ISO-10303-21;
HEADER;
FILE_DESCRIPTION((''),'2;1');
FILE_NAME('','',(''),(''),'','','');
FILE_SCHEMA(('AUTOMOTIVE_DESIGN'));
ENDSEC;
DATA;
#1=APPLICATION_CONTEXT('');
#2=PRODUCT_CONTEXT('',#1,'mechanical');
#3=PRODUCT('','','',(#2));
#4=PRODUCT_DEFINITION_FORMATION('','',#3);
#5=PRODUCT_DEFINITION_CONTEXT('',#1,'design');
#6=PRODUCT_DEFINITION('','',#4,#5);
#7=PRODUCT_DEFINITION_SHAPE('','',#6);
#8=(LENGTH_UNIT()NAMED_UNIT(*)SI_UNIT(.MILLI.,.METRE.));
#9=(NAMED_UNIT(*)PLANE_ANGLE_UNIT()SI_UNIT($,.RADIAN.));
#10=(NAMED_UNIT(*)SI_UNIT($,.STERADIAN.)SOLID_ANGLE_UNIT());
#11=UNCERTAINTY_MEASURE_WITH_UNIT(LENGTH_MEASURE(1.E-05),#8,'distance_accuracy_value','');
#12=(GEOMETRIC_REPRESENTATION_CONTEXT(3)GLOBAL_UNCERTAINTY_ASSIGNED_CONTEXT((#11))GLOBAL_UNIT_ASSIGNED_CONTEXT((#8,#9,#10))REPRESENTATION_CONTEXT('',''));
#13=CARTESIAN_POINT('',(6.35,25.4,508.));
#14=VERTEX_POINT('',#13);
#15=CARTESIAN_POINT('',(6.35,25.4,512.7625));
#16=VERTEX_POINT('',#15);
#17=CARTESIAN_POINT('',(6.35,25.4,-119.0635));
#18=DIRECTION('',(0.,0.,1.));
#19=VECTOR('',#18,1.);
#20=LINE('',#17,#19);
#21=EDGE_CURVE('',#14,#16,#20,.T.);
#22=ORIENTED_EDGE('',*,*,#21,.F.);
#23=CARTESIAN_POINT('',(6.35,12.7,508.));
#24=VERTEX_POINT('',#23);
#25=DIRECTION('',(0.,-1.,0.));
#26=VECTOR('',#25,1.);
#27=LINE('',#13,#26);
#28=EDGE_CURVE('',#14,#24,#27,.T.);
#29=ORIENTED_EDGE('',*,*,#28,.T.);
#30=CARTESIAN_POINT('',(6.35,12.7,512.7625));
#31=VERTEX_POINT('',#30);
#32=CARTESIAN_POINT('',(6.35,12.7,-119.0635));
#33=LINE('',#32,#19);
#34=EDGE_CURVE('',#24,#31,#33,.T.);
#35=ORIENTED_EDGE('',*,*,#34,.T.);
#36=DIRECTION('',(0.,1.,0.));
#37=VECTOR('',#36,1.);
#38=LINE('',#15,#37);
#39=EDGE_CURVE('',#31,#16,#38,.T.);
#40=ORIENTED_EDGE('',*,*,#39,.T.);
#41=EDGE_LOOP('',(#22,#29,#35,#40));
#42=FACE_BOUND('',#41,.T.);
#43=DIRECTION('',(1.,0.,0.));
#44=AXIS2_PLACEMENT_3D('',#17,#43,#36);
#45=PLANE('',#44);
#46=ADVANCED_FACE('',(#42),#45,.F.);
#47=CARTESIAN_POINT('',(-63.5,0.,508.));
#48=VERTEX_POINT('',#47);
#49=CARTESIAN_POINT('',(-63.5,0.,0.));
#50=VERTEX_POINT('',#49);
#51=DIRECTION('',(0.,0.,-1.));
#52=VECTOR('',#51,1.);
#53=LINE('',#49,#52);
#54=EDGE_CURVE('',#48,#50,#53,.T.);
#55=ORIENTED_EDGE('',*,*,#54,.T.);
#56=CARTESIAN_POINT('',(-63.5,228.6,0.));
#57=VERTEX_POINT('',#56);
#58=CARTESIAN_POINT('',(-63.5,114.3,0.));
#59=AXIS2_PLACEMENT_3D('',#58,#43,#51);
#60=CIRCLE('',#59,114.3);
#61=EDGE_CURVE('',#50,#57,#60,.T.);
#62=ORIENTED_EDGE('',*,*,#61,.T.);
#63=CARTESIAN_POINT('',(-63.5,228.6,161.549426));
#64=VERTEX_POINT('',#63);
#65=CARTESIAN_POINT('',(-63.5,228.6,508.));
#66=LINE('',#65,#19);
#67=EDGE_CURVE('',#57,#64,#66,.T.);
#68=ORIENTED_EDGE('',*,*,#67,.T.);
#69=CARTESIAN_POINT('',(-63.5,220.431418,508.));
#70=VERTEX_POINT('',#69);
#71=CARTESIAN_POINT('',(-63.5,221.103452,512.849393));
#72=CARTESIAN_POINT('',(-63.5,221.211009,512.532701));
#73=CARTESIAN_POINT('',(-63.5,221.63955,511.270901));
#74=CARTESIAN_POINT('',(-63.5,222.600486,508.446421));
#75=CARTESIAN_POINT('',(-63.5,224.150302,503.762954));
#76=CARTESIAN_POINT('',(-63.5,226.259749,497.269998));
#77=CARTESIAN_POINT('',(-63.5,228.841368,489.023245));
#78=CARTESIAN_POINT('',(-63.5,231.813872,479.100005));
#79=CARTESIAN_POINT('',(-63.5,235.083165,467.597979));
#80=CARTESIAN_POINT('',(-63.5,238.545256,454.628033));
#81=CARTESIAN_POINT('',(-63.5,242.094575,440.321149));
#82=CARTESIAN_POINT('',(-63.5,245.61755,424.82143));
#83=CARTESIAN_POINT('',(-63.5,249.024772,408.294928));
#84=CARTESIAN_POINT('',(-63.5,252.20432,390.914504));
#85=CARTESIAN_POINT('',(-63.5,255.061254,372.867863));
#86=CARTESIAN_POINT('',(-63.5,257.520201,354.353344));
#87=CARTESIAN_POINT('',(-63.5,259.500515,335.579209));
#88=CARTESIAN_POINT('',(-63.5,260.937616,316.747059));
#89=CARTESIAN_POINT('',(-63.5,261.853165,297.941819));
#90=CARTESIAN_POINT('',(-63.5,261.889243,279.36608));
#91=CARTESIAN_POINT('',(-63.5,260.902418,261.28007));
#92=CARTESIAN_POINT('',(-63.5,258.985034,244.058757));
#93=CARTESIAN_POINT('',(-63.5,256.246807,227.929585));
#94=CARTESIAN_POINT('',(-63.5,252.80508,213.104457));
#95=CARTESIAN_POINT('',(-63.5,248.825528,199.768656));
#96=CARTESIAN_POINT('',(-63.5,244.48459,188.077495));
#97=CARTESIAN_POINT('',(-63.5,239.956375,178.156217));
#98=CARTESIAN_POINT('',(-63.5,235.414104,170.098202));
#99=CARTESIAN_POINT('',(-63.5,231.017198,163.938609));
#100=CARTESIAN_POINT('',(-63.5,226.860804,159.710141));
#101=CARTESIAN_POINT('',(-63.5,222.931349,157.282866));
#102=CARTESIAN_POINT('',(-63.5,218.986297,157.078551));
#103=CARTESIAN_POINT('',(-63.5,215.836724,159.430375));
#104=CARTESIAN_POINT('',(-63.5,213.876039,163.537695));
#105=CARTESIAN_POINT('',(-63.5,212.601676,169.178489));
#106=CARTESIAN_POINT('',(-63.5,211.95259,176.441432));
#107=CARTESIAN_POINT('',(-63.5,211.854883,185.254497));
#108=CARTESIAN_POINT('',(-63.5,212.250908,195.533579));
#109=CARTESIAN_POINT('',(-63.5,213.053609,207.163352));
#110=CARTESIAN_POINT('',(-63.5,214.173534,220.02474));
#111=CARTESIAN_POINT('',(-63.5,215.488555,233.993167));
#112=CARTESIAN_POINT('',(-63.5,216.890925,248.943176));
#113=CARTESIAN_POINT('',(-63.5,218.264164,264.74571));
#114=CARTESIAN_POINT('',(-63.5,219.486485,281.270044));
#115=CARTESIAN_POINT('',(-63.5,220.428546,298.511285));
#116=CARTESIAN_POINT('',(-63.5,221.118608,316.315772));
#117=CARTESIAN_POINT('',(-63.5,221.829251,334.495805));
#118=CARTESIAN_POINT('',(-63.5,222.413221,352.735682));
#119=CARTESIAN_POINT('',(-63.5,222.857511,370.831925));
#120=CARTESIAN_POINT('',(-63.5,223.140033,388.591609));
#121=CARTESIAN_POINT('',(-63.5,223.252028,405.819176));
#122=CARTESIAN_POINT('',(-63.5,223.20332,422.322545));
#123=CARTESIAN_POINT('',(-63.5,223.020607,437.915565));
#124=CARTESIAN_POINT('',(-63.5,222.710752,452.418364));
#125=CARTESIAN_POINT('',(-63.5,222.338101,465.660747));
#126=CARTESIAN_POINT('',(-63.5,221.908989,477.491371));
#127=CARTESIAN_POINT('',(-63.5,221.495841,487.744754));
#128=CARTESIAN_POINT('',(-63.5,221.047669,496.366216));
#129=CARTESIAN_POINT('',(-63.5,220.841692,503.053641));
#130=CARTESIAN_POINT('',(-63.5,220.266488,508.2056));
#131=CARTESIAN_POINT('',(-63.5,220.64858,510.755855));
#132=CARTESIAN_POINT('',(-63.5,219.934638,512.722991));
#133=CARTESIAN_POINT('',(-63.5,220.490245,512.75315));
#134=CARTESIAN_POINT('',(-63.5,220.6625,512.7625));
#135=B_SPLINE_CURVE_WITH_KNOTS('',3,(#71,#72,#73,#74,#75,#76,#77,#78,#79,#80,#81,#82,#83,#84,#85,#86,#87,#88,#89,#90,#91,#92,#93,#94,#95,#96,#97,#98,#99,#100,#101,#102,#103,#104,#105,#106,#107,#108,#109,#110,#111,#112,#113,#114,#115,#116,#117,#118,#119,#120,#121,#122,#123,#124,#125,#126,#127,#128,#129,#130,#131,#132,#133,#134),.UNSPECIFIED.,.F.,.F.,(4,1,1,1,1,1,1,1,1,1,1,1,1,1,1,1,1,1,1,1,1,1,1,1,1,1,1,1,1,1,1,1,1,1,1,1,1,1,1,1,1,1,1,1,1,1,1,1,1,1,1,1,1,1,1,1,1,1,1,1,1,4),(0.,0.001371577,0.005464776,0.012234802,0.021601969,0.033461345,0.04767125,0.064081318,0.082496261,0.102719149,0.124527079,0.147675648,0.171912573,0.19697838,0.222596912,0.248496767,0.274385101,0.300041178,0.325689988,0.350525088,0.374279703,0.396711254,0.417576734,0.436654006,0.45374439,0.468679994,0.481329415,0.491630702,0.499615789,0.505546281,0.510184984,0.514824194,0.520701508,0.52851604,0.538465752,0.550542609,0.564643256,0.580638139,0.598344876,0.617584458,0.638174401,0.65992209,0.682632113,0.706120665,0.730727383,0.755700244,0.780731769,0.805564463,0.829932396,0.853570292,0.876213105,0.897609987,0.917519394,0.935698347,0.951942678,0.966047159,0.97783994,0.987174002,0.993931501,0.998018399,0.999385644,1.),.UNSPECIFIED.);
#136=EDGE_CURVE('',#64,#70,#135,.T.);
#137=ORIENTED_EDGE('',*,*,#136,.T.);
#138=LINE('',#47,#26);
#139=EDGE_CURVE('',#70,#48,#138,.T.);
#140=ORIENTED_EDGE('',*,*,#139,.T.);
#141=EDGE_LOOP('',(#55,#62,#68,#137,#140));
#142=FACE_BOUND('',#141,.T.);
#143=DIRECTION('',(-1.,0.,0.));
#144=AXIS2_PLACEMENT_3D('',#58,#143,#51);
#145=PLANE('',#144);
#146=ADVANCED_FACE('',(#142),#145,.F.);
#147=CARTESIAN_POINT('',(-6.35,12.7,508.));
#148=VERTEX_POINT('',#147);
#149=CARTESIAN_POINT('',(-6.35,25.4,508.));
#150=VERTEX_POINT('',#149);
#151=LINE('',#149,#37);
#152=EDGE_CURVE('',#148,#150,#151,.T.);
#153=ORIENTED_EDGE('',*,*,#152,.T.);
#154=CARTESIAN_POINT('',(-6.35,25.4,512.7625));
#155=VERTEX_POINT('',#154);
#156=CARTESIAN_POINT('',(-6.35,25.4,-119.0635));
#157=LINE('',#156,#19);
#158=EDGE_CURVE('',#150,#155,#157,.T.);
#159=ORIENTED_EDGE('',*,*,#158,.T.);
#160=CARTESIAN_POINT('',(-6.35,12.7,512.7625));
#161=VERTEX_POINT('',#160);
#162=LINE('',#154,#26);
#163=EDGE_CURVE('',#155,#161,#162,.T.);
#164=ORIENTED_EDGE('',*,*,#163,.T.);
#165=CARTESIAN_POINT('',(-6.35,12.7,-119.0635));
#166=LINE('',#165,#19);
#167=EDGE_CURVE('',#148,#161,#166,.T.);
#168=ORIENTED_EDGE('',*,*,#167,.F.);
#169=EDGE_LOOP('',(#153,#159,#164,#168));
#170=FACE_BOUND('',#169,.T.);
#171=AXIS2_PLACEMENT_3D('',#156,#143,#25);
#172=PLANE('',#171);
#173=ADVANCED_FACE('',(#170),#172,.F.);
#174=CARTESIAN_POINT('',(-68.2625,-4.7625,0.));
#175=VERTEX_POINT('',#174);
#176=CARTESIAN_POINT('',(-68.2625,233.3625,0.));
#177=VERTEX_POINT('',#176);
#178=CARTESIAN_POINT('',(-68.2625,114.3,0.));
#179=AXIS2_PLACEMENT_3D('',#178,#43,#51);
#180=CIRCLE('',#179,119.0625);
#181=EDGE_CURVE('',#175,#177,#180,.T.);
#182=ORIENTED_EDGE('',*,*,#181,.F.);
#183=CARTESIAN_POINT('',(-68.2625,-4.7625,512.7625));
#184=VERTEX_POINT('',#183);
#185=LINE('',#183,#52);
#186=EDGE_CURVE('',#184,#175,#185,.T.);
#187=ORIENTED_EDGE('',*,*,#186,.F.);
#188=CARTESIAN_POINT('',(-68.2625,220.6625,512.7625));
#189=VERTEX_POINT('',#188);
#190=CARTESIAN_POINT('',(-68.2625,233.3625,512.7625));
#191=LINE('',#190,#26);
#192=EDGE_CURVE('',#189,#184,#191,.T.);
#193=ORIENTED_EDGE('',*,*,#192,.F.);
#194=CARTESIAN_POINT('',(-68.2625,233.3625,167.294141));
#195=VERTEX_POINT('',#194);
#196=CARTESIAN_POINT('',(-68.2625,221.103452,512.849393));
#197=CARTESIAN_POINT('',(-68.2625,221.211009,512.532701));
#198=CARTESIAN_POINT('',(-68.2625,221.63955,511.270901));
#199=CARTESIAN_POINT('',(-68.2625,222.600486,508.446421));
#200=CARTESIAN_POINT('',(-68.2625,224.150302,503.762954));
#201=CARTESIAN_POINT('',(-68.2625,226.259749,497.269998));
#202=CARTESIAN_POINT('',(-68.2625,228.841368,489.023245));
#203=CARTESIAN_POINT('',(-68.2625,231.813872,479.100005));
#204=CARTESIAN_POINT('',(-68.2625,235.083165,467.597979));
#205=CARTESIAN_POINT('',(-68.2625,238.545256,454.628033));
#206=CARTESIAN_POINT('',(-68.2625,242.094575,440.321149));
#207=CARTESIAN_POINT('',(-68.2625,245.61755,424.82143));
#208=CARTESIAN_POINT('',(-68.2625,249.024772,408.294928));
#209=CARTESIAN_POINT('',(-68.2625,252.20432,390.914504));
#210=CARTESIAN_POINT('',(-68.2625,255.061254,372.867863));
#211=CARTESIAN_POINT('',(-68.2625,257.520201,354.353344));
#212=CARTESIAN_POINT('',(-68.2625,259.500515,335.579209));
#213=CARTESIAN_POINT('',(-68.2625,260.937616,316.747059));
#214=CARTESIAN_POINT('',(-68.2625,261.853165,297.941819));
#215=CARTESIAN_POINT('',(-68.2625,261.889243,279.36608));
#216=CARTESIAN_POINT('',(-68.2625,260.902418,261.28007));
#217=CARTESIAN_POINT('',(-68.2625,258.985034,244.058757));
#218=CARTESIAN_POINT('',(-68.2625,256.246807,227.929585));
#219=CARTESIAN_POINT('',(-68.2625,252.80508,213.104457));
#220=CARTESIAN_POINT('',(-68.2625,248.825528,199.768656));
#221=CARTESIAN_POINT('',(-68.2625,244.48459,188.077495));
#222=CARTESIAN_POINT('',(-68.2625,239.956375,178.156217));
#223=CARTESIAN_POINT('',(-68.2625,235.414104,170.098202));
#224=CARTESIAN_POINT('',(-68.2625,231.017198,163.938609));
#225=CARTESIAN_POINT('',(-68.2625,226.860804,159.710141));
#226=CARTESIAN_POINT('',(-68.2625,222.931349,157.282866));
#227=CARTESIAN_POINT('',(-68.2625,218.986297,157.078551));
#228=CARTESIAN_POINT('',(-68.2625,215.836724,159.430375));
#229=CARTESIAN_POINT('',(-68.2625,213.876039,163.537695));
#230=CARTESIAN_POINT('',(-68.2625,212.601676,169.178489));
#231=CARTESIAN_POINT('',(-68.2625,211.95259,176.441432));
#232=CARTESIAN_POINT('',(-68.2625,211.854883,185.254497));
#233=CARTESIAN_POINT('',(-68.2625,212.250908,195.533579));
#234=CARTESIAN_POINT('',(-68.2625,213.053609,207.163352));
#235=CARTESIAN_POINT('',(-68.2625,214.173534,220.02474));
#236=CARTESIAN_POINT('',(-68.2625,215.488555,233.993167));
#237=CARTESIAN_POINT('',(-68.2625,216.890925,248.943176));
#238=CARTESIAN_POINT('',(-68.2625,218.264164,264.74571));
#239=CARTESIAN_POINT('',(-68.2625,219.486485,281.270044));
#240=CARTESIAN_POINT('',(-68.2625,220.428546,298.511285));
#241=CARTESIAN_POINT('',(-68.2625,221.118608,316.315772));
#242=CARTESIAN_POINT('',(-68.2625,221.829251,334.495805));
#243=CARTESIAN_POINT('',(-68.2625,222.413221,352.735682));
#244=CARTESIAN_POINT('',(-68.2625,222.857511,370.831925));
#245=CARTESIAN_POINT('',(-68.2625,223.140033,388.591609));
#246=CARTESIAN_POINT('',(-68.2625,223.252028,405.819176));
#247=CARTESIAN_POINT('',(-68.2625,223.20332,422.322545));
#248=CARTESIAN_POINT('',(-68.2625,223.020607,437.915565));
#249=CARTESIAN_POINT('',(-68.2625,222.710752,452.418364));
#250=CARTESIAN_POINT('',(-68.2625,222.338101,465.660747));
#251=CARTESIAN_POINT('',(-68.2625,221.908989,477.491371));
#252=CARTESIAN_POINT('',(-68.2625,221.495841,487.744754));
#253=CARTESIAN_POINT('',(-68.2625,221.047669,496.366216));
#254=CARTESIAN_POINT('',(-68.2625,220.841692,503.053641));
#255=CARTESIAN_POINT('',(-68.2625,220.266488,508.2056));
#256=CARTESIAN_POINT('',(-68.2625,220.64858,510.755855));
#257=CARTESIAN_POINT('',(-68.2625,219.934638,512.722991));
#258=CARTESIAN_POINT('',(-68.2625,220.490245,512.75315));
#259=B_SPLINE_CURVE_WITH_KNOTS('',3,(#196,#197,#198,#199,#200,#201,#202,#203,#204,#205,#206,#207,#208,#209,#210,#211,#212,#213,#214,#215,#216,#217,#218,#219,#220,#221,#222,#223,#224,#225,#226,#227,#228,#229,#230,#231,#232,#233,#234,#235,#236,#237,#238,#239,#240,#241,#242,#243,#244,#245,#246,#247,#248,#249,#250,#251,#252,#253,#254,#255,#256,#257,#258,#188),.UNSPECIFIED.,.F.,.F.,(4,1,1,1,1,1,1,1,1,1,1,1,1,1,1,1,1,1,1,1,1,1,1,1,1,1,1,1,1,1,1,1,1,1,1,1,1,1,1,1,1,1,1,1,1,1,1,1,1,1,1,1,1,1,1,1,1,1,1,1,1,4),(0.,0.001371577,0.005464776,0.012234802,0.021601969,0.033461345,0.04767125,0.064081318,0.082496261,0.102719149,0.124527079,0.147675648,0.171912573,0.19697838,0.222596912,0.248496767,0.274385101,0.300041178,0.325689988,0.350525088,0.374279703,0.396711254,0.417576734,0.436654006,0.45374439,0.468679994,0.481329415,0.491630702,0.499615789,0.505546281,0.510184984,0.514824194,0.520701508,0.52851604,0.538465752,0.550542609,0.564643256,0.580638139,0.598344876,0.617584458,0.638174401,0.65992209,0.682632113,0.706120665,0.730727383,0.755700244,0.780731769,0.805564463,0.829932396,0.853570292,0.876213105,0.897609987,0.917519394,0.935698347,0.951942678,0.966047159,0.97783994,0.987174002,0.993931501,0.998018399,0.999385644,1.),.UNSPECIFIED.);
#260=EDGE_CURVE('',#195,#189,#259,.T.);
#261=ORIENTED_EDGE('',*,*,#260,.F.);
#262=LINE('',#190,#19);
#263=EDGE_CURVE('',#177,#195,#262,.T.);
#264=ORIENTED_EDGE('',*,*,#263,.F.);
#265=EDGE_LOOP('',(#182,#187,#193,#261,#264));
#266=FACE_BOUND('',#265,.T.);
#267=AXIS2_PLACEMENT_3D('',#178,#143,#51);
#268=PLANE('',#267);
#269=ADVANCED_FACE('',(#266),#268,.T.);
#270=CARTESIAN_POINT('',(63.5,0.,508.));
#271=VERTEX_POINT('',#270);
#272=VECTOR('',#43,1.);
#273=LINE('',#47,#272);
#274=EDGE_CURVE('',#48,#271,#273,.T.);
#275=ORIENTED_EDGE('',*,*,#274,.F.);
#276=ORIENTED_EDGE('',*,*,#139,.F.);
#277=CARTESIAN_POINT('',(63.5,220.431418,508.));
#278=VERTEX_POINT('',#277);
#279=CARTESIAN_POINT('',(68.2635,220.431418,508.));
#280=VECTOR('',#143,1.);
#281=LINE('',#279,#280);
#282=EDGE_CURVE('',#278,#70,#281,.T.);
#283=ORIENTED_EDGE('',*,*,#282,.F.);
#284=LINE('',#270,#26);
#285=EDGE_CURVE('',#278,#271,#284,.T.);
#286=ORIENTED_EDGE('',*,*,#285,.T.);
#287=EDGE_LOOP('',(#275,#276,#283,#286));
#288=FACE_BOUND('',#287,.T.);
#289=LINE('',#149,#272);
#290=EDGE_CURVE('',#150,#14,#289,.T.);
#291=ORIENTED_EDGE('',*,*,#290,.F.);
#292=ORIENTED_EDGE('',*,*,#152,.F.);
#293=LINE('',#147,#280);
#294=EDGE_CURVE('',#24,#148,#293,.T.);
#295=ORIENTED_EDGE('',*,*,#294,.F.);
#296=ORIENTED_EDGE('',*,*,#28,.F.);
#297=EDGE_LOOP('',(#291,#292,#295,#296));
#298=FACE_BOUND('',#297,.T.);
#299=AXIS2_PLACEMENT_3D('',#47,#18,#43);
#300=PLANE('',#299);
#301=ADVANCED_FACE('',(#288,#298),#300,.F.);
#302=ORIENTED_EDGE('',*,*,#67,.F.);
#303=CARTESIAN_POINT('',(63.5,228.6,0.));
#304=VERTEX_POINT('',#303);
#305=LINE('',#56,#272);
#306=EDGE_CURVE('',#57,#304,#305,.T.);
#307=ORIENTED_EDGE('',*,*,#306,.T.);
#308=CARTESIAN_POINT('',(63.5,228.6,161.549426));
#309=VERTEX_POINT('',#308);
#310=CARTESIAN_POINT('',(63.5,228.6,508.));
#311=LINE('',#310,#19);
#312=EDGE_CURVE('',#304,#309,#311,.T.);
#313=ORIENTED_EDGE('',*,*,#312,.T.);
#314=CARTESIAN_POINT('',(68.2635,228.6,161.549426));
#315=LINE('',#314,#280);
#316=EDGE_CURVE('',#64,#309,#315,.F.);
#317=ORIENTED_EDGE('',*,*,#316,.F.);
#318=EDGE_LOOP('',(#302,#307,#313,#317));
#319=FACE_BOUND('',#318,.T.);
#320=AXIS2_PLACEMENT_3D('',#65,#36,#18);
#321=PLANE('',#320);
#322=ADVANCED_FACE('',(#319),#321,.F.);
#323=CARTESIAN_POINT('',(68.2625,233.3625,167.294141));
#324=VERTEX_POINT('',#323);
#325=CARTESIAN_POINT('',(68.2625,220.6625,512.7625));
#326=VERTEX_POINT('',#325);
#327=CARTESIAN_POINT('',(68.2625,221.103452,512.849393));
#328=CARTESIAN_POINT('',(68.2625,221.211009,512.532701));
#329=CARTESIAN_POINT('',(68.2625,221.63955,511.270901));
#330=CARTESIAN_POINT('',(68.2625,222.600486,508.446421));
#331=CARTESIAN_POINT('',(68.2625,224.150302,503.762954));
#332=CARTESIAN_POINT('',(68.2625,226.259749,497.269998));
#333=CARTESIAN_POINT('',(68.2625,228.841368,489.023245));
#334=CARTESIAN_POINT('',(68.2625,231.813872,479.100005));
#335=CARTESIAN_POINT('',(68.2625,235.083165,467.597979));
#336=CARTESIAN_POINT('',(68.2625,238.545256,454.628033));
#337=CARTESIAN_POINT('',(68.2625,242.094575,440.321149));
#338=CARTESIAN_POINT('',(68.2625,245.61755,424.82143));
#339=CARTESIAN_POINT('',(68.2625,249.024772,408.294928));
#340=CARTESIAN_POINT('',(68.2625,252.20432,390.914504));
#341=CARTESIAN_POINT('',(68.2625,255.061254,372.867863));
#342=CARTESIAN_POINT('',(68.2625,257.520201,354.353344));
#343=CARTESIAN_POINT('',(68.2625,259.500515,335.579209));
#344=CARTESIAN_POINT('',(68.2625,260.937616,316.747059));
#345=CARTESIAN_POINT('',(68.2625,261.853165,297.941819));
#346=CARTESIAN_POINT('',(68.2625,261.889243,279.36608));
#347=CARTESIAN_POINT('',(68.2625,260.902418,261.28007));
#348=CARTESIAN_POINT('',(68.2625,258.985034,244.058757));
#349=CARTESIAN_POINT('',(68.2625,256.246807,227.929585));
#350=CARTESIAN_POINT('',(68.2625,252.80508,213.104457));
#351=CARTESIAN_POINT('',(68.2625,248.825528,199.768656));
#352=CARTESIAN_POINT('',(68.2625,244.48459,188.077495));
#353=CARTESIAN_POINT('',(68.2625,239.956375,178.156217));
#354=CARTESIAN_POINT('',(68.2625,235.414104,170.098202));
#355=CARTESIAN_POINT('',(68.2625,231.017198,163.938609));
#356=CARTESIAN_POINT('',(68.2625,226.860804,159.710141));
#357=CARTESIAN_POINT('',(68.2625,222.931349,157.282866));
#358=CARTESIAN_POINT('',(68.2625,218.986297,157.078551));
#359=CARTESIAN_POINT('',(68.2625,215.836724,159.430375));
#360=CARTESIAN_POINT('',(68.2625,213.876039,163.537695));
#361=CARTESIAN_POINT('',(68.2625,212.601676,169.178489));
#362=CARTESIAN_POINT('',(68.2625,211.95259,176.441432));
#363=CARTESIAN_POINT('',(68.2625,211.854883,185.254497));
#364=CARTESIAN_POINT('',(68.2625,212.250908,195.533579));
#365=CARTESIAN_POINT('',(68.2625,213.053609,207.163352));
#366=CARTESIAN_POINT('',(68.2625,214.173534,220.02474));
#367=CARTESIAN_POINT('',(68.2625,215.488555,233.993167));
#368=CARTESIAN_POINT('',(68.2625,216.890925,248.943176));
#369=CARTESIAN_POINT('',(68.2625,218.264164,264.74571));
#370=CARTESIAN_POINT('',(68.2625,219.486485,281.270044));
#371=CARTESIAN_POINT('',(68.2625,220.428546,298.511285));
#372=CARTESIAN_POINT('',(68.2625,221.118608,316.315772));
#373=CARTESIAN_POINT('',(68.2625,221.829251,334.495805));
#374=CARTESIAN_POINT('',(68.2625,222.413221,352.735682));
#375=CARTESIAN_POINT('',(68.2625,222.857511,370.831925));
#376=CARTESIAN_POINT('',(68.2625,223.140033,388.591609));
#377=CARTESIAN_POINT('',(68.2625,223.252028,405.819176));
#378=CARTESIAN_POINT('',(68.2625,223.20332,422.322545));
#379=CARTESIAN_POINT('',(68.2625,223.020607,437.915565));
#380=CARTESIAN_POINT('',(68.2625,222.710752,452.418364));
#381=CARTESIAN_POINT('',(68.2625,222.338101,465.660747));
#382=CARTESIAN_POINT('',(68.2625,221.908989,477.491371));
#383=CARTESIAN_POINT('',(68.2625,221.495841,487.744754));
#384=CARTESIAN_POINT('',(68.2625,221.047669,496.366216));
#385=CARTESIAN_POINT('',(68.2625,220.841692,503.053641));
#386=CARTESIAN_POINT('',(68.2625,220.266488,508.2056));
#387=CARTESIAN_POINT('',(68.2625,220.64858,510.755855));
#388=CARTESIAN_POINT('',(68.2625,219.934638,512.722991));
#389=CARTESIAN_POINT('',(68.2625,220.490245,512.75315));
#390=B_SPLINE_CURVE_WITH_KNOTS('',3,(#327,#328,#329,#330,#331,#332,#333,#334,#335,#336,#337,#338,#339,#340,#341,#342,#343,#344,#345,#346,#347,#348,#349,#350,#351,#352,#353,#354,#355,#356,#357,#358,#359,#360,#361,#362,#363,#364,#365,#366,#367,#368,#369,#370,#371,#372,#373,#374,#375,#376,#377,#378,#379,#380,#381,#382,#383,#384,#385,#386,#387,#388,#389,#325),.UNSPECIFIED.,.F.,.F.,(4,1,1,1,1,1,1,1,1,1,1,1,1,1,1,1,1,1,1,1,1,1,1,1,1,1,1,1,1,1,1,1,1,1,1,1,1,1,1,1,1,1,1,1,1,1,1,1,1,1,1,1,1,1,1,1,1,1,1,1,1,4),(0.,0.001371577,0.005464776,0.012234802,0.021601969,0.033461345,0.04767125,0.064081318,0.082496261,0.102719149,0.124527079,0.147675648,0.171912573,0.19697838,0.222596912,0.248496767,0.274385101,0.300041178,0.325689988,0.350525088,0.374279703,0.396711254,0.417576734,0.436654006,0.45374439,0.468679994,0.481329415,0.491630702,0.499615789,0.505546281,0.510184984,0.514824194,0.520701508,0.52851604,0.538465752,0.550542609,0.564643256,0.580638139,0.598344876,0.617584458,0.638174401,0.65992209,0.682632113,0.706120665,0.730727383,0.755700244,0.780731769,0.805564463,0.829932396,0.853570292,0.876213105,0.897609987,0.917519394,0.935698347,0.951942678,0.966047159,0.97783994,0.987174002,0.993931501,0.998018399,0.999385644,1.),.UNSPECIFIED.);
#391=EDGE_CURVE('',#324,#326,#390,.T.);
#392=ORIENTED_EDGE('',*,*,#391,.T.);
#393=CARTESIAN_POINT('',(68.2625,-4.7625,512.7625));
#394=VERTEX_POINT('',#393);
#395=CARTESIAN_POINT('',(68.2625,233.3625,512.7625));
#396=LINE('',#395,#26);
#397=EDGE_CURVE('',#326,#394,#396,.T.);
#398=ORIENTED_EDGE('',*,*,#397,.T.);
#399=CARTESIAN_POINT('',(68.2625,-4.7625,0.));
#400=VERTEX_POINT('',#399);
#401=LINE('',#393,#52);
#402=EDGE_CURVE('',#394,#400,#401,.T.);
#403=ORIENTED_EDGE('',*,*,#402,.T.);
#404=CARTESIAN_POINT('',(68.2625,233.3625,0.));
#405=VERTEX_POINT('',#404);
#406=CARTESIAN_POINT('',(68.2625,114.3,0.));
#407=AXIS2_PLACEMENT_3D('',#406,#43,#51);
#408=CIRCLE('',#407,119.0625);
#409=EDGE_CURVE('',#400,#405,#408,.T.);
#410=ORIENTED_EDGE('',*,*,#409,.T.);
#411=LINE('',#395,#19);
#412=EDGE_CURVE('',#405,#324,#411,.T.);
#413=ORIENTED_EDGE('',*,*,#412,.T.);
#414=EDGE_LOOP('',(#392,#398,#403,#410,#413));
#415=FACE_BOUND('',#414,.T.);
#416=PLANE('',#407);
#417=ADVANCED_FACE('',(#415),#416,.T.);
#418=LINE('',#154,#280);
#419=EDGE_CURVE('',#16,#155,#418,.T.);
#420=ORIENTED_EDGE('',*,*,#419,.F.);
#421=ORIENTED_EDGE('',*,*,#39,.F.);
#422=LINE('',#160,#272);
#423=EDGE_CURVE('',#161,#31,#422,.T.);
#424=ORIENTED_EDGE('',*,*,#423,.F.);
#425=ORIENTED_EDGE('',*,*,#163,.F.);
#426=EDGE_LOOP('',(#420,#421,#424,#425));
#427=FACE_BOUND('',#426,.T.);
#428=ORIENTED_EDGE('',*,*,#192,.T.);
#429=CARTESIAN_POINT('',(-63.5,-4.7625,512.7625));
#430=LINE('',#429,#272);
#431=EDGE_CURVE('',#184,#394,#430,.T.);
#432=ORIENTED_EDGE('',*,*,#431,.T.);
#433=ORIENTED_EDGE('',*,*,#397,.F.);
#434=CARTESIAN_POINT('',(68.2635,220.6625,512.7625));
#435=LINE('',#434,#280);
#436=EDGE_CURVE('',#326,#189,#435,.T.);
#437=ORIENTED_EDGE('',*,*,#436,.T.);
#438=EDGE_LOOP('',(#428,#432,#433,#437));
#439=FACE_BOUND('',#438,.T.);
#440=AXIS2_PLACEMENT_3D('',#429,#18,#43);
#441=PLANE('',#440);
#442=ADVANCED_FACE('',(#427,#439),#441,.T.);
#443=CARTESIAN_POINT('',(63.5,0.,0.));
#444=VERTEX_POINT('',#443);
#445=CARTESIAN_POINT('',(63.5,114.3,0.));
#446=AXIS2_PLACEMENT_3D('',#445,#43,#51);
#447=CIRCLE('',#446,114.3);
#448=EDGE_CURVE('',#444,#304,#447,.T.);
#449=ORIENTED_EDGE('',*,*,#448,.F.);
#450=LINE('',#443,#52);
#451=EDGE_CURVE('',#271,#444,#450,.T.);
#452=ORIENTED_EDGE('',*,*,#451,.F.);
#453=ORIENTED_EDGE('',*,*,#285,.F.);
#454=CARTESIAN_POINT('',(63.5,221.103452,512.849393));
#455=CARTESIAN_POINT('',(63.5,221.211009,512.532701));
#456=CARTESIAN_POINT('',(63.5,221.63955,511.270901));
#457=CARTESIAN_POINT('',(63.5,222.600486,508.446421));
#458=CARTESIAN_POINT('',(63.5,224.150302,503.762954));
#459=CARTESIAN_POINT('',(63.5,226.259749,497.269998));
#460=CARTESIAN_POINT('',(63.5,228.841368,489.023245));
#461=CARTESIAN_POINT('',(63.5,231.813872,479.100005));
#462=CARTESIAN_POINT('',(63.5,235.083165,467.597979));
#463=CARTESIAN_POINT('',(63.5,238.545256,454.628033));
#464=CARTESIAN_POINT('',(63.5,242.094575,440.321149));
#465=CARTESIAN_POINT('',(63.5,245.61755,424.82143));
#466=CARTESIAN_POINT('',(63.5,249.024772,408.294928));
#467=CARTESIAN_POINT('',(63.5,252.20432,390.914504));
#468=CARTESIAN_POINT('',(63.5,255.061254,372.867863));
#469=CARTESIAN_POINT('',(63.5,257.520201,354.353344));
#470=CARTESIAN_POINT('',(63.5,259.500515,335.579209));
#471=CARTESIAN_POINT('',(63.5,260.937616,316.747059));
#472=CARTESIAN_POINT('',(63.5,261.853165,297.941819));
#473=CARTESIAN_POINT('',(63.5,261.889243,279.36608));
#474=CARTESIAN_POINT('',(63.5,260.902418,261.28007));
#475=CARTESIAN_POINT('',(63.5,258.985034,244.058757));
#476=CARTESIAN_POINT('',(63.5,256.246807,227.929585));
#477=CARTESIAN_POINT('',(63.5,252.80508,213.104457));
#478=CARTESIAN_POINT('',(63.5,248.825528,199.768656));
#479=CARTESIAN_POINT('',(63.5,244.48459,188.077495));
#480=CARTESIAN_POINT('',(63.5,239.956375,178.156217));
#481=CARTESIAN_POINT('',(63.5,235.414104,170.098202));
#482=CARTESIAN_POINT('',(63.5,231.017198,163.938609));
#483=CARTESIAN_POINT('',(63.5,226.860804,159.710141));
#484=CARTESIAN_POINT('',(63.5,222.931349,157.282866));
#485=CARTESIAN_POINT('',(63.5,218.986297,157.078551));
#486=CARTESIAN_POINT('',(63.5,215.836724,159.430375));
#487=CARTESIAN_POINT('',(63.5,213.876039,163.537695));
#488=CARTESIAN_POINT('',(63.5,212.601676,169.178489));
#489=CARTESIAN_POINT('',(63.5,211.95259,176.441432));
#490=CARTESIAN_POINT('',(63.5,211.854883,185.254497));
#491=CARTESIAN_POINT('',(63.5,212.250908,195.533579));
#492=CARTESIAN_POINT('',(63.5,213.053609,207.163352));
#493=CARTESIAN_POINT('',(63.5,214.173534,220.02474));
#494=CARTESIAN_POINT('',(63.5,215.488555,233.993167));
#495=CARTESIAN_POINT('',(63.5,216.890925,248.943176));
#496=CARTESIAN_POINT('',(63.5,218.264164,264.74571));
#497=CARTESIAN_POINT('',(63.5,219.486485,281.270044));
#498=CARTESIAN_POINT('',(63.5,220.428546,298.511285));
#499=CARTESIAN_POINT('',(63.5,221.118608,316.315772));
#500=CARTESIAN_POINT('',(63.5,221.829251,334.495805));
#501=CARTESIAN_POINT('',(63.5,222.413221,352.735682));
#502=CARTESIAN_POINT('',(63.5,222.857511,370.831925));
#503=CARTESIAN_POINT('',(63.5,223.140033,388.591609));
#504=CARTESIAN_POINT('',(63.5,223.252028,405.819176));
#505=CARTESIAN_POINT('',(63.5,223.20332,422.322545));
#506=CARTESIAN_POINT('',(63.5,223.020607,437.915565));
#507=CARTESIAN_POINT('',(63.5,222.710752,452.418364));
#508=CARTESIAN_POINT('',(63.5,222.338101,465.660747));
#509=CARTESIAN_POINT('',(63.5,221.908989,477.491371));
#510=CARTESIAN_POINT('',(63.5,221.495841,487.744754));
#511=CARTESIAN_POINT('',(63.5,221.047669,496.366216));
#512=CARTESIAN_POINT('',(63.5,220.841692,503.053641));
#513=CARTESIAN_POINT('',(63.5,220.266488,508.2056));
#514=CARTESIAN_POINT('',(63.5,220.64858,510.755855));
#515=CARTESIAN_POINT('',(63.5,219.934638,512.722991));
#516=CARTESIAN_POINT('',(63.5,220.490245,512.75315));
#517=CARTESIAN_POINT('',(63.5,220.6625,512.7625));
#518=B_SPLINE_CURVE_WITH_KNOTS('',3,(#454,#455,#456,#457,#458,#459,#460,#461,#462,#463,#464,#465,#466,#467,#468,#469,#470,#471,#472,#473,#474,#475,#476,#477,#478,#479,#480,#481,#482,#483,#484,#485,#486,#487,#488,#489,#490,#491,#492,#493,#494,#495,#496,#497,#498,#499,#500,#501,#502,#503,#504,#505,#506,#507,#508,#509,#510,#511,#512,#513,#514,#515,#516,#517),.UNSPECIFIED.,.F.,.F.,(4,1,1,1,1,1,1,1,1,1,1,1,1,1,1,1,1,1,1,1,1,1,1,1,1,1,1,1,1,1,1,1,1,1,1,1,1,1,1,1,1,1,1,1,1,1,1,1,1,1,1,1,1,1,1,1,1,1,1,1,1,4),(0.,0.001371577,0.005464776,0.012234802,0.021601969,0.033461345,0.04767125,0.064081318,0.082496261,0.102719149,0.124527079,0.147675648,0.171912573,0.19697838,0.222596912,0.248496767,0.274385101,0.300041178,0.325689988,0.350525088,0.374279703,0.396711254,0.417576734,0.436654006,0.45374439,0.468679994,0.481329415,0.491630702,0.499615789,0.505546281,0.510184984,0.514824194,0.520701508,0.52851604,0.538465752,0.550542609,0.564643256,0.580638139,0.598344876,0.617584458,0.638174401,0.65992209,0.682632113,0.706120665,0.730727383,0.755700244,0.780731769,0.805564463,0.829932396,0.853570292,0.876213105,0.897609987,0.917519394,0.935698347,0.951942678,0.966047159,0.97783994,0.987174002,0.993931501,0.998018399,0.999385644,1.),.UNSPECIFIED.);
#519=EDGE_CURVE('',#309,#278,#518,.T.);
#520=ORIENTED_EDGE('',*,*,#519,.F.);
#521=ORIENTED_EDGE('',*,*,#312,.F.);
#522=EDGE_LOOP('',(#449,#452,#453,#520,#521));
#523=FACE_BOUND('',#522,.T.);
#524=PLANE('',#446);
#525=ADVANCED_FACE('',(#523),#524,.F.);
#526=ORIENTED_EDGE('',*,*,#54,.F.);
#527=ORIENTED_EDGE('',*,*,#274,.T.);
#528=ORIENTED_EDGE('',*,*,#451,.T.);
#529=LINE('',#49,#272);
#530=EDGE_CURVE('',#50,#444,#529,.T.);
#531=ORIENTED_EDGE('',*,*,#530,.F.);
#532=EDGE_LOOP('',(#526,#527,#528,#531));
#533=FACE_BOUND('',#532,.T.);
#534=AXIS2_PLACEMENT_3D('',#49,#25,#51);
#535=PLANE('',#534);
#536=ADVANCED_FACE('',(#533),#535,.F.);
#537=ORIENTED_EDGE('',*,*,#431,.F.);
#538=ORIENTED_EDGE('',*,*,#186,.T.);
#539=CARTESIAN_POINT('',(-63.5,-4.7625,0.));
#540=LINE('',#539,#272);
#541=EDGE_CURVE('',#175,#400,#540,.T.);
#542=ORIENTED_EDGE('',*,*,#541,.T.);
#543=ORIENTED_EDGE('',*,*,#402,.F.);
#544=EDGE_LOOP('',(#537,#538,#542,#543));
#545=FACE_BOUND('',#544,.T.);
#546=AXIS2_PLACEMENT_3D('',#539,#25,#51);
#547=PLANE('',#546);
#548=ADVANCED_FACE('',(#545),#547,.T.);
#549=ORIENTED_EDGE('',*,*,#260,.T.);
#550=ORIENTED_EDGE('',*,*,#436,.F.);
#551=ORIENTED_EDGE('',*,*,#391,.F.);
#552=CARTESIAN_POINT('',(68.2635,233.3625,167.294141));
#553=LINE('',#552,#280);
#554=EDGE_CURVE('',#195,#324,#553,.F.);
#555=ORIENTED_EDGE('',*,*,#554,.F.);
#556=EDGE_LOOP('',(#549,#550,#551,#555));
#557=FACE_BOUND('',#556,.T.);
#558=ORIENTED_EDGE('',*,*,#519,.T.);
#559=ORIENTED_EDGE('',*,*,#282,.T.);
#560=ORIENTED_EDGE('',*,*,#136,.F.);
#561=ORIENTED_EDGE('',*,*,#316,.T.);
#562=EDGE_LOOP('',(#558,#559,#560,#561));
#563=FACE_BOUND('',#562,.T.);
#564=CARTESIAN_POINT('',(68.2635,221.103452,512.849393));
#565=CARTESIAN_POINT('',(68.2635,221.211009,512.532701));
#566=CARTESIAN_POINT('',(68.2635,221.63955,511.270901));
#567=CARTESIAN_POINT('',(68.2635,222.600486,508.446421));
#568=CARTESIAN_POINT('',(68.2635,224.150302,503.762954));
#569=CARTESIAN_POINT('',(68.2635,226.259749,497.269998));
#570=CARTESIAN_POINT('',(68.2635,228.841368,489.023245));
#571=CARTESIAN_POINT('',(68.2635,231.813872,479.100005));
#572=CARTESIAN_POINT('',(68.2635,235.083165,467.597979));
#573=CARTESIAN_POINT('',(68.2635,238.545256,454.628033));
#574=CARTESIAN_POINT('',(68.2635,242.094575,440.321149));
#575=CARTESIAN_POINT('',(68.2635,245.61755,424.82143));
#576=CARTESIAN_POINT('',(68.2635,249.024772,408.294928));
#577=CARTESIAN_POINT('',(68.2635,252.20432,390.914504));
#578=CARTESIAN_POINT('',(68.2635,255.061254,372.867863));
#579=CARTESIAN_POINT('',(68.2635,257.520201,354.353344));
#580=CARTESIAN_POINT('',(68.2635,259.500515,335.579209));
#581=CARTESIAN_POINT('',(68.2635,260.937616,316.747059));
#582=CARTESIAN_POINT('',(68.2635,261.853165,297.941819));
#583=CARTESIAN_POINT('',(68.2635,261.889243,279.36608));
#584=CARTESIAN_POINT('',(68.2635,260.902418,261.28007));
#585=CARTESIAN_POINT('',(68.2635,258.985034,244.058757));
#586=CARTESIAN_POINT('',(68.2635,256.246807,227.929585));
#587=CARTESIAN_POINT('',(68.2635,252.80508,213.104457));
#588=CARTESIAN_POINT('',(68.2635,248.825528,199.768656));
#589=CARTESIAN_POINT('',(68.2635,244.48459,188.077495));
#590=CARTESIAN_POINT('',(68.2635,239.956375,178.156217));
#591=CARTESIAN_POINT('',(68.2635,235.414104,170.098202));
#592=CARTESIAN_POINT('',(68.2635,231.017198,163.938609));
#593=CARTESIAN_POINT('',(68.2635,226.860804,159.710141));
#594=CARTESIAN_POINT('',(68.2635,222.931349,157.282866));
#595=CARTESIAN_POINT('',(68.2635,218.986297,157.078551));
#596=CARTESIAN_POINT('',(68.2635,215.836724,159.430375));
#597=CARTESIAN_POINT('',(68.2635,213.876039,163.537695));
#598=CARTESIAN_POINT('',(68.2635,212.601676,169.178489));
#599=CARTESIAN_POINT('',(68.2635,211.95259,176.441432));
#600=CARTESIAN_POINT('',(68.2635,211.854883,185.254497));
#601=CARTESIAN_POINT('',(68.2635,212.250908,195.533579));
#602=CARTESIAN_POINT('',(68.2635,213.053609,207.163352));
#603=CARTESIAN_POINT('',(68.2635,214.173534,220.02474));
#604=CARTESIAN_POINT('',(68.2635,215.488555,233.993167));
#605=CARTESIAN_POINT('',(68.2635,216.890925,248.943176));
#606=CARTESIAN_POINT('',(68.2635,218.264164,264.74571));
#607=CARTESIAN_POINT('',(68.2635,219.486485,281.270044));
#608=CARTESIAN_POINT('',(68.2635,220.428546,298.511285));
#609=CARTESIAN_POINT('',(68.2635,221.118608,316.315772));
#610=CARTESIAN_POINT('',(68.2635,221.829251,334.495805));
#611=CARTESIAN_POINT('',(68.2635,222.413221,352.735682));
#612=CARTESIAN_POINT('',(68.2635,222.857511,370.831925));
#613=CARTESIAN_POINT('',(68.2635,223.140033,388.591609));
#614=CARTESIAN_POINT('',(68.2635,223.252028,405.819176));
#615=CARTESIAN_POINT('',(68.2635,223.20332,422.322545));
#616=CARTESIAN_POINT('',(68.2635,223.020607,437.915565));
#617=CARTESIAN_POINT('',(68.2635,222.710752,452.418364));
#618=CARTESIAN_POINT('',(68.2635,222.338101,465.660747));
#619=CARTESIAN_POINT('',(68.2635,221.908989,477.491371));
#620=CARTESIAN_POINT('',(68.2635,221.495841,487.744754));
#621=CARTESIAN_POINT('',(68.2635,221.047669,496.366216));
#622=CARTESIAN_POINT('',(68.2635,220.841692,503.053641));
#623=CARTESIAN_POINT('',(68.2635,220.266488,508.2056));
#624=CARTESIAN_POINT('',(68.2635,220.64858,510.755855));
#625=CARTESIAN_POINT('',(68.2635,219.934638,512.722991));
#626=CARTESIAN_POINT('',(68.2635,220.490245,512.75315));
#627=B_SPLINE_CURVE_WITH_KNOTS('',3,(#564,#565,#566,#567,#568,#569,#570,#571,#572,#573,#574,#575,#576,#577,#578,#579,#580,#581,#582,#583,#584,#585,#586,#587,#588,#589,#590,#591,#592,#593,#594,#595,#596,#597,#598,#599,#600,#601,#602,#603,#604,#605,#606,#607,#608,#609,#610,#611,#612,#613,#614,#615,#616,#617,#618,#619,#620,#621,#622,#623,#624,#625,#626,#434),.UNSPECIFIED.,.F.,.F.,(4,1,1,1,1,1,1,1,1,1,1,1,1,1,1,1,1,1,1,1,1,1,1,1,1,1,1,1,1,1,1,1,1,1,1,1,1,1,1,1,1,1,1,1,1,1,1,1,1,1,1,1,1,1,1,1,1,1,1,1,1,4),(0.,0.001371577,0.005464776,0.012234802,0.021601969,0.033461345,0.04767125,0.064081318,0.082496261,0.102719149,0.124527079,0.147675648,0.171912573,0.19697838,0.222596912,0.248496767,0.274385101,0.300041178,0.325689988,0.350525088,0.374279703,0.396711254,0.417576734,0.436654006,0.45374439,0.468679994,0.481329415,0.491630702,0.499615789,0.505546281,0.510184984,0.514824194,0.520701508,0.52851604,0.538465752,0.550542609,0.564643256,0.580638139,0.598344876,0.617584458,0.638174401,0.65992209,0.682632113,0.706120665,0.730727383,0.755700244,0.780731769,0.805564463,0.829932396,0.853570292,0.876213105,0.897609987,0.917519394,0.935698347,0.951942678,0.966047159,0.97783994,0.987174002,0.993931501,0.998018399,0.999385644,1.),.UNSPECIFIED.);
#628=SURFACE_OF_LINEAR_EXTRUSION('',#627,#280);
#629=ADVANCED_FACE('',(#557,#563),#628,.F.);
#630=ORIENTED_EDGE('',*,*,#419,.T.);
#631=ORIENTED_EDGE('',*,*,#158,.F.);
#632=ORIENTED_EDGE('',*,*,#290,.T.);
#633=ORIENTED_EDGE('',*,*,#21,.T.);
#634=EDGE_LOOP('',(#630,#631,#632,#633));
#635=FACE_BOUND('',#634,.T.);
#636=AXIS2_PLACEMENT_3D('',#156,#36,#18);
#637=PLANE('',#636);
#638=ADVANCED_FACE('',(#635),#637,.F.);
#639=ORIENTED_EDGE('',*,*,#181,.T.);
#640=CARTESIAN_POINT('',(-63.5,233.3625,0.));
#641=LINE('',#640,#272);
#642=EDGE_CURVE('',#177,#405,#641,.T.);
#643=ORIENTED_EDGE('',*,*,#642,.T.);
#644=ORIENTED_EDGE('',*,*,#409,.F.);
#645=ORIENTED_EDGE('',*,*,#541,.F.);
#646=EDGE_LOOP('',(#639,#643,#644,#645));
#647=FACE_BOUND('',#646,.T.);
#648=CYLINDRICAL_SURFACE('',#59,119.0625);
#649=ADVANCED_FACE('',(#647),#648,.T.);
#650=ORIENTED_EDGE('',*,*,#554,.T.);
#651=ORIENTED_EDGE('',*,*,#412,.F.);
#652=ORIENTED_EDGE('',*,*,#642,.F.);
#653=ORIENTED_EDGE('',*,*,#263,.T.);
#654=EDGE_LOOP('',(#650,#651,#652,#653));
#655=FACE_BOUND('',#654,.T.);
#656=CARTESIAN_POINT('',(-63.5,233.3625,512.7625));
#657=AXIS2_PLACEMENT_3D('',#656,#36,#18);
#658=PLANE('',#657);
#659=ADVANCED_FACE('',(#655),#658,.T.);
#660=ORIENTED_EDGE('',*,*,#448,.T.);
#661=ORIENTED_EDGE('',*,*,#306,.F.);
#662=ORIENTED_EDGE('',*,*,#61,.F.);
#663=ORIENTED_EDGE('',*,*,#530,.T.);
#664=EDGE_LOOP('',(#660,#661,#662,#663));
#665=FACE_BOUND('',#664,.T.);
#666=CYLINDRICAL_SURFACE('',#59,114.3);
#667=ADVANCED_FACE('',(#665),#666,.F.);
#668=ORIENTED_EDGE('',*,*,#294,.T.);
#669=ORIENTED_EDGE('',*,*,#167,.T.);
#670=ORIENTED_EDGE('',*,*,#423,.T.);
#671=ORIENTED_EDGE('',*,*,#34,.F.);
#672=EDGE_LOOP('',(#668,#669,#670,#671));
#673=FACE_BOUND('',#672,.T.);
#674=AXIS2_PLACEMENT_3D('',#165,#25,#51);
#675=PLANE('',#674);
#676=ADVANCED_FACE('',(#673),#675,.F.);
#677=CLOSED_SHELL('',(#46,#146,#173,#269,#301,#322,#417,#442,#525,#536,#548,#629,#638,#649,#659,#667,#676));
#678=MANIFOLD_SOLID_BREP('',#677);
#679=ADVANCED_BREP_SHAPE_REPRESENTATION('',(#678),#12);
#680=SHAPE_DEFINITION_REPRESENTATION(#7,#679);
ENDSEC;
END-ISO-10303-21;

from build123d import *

# Parameters (mm, degrees)
BOSS_EXTRUDE1_DEPTH            = 63.5
BOSS_EXTRUDE1_DEPTH_BACK       = 63.5
CUT_EXTRUDE1_REACH             = 678.53
SKETCH4_W                      = 12.7
SKETCH4_H                      = 12.7
BOSS_EXTRUDE3_DEPTH            = 4.7625
CUT_EXTRUDE2_REACH             = 569.489
CUT_EXTRUDE2_DIRECTION_2_REACH = 569.489
CUT_EXTRUDE3_DEPTH             = 136.525


with BuildPart() as part:
    # Sketch2 → Boss-Extrude1 (new, two sides: drawn at the far end of the back side and taken through both)
    with BuildSketch(Plane(origin=(0, 0, 0), x_dir=(0, 0, -1), z_dir=(1, 0, 0)).offset(-BOSS_EXTRUDE1_DEPTH_BACK)):
        with BuildLine():
            Line((0, -4.7625), (-512.7625, -4.7625))
            Line((-512.7625, -4.7625), (-512.7625, 233.3625))
            Line((-512.7625, 233.3625), (0, 233.3625))
            ThreePointArc((0, 233.3625), (119.0625, 114.3), (0, -4.7625))
        make_face()
        with BuildLine():
            Line((0, 0), (-508, 0))
            Line((-508, 0), (-508, 228.6))
            Line((-508, 228.6), (0, 228.6))
            ThreePointArc((0, 228.6), (114.3, 114.3), (0, 0))
        make_face(mode=Mode.SUBTRACT)
    extrude(amount=BOSS_EXTRUDE1_DEPTH + BOSS_EXTRUDE1_DEPTH_BACK)

    # Sketch4 → Cut-Extrude1 (cut, up to next)
    with BuildSketch(Plane.XY.offset(512.7625), mode=Mode.PRIVATE) as cut_extrude1_sk1:
        with Locations((0, 19.05)):
            Rectangle(SKETCH4_W, SKETCH4_H)
    cut_extrude1_tool1 = extrude(cut_extrude1_sk1.sketch, amount=-CUT_EXTRUDE1_REACH, mode=Mode.PRIVATE) & part.part
    add(cut_extrude1_tool1.solids().sort_by_distance((0, 19.05, 512.7625))[0], mode=Mode.SUBTRACT)

    # Sketch9 → Boss-Extrude3 (add)
    with BuildSketch(Plane(origin=(63.5, 0, 0), x_dir=(0, 0, -1), z_dir=(1, 0, 0))):
        with BuildLine():
            Line((-512.7625, 233.3625), (0, 233.3625))
            ThreePointArc((0, 233.3625), (119.0625, 114.3), (0, -4.7625))
            Line((0, -4.7625), (-512.7625, -4.7625))
            Line((-512.7625, -4.7625), (-512.7625, 233.3625))
        make_face()
    boss_extrude3 = extrude(amount=BOSS_EXTRUDE3_DEPTH)

    # Mirror1: Boss-Extrude3 across plane
    add(boss_extrude3.mirror(Plane(origin=(0, 0, 0), x_dir=(0, 0, 1), z_dir=(1, 0, 0))))

    # Sketch11 → Cut-Extrude2 (cut, up to next)
    with BuildSketch(Plane(origin=(0, 0, 0), x_dir=(0, 0, -1), z_dir=(1, 0, 0)), mode=Mode.PRIVATE) as cut_extrude2_sk1:
        with BuildLine():
            Line((-512.7625, 220.6625), (-512.849393223, 221.103452286))
            add(Edge.make_bspline(
                [(-512.849393223, 221.103452286), (-512.532700595, 221.211009466), (-511.270901441, 221.63954978), (-508.44642109, 222.600485882), (-503.762953517, 224.150302439), (-497.269998464, 226.259749178), (-489.023245355, 228.841368447), (-479.10000481, 231.813872481), (-467.597978696, 235.083165457), (-454.628032508, 238.545255758), (-440.321148985, 242.094575026), (-424.821429797, 245.617549826), (-408.294927933, 249.024771645), (-390.914504443, 252.20432036), (-372.867862768, 255.061254061), (-354.353343741, 257.520201331), (-335.579209389, 259.500514547), (-316.747059388, 260.937616248), (-297.94181928, 261.853164618), (-279.366079575, 261.889242872), (-261.280070346, 260.902418125), (-244.058757053, 258.98503391), (-227.929585221, 256.246806811), (-213.104456806, 252.805079969), (-199.768656161, 248.825528286), (-188.077495343, 244.484590441), (-178.156217252, 239.956374948), (-170.098201624, 235.414103694), (-163.938608789, 231.017198213), (-159.710140529, 226.860803831), (-157.282866367, 222.931348779), (-157.078551081, 218.986296857), (-159.430374502, 215.836723639), (-163.53769494, 213.876038864), (-169.178489437, 212.601675942), (-176.441431937, 211.952589942), (-185.254497433, 211.854882503), (-195.533579013, 212.250908039), (-207.163351661, 213.05360896), (-220.024740235, 214.17353372), (-233.993166749, 215.488554617), (-248.94317648, 216.89092489), (-264.745709996, 218.26416395), (-281.270044114, 219.486485379), (-298.511284992, 220.428545699), (-316.315771527, 221.118607839), (-334.495805294, 221.829251021), (-352.735682057, 222.413221363), (-370.831925379, 222.857510837), (-388.591608724, 223.140033413), (-405.819175726, 223.252027693), (-422.322545069, 223.203320199), (-437.915565221, 223.020606612), (-452.418364345, 222.71075189), (-465.660747498, 222.338100855), (-477.491371257, 221.908988988), (-487.744754133, 221.495841487), (-496.366215664, 221.0476688), (-503.053640958, 220.841691742), (-508.205599593, 220.266487962), (-510.755855294, 220.648579963), (-512.722990842, 219.934638372), (-512.753149809, 220.490245125), (-512.7625, 220.6625)],
                knots=[0, 0, 0, 0, 0.001371577, 0.005464776, 0.012234802, 0.021601969, 0.033461345, 0.04767125, 0.064081318, 0.082496261, 0.102719149, 0.124527079, 0.147675648, 0.171912573, 0.19697838, 0.222596912, 0.248496767, 0.274385101, 0.300041178, 0.325689988, 0.350525088, 0.374279703, 0.396711254, 0.417576734, 0.436654006, 0.45374439, 0.468679994, 0.481329415, 0.491630702, 0.499615789, 0.505546281, 0.510184984, 0.514824194, 0.520701508, 0.52851604, 0.538465752, 0.550542609, 0.564643256, 0.580638139, 0.598344876, 0.617584458, 0.638174401, 0.65992209, 0.682632113, 0.706120665, 0.730727383, 0.755700244, 0.780731769, 0.805564463, 0.829932396, 0.853570292, 0.876213105, 0.897609987, 0.917519394, 0.935698347, 0.951942678, 0.966047159, 0.97783994, 0.987174002, 0.993931501, 0.998018399, 0.999385644, 1, 1, 1, 1], degree=3))
        make_face()
    cut_extrude2_tool1 = extrude(cut_extrude2_sk1.sketch, amount=-CUT_EXTRUDE2_REACH, mode=Mode.PRIVATE) & part.part
    add(cut_extrude2_tool1.solids().sort_by_distance((0, 236.327035, 306.434804))[0], mode=Mode.SUBTRACT)

    # Sketch11 → Cut-Extrude2 direction 2 (cut, up to next)
    with BuildSketch(Plane(origin=(0, 0, 0), x_dir=(0, 0, -1), z_dir=(1, 0, 0)), mode=Mode.PRIVATE) as cut_extrude2_direction_2_sk1:
        with BuildLine():
            Line((-512.7625, 220.6625), (-512.849393223, 221.103452286))
            add(Edge.make_bspline(
                [(-512.849393223, 221.103452286), (-512.532700595, 221.211009466), (-511.270901441, 221.63954978), (-508.44642109, 222.600485882), (-503.762953517, 224.150302439), (-497.269998464, 226.259749178), (-489.023245355, 228.841368447), (-479.10000481, 231.813872481), (-467.597978696, 235.083165457), (-454.628032508, 238.545255758), (-440.321148985, 242.094575026), (-424.821429797, 245.617549826), (-408.294927933, 249.024771645), (-390.914504443, 252.20432036), (-372.867862768, 255.061254061), (-354.353343741, 257.520201331), (-335.579209389, 259.500514547), (-316.747059388, 260.937616248), (-297.94181928, 261.853164618), (-279.366079575, 261.889242872), (-261.280070346, 260.902418125), (-244.058757053, 258.98503391), (-227.929585221, 256.246806811), (-213.104456806, 252.805079969), (-199.768656161, 248.825528286), (-188.077495343, 244.484590441), (-178.156217252, 239.956374948), (-170.098201624, 235.414103694), (-163.938608789, 231.017198213), (-159.710140529, 226.860803831), (-157.282866367, 222.931348779), (-157.078551081, 218.986296857), (-159.430374502, 215.836723639), (-163.53769494, 213.876038864), (-169.178489437, 212.601675942), (-176.441431937, 211.952589942), (-185.254497433, 211.854882503), (-195.533579013, 212.250908039), (-207.163351661, 213.05360896), (-220.024740235, 214.17353372), (-233.993166749, 215.488554617), (-248.94317648, 216.89092489), (-264.745709996, 218.26416395), (-281.270044114, 219.486485379), (-298.511284992, 220.428545699), (-316.315771527, 221.118607839), (-334.495805294, 221.829251021), (-352.735682057, 222.413221363), (-370.831925379, 222.857510837), (-388.591608724, 223.140033413), (-405.819175726, 223.252027693), (-422.322545069, 223.203320199), (-437.915565221, 223.020606612), (-452.418364345, 222.71075189), (-465.660747498, 222.338100855), (-477.491371257, 221.908988988), (-487.744754133, 221.495841487), (-496.366215664, 221.0476688), (-503.053640958, 220.841691742), (-508.205599593, 220.266487962), (-510.755855294, 220.648579963), (-512.722990842, 219.934638372), (-512.753149809, 220.490245125), (-512.7625, 220.6625)],
                knots=[0, 0, 0, 0, 0.001371577, 0.005464776, 0.012234802, 0.021601969, 0.033461345, 0.04767125, 0.064081318, 0.082496261, 0.102719149, 0.124527079, 0.147675648, 0.171912573, 0.19697838, 0.222596912, 0.248496767, 0.274385101, 0.300041178, 0.325689988, 0.350525088, 0.374279703, 0.396711254, 0.417576734, 0.436654006, 0.45374439, 0.468679994, 0.481329415, 0.491630702, 0.499615789, 0.505546281, 0.510184984, 0.514824194, 0.520701508, 0.52851604, 0.538465752, 0.550542609, 0.564643256, 0.580638139, 0.598344876, 0.617584458, 0.638174401, 0.65992209, 0.682632113, 0.706120665, 0.730727383, 0.755700244, 0.780731769, 0.805564463, 0.829932396, 0.853570292, 0.876213105, 0.897609987, 0.917519394, 0.935698347, 0.951942678, 0.966047159, 0.97783994, 0.987174002, 0.993931501, 0.998018399, 0.999385644, 1, 1, 1, 1], degree=3))
        make_face()
    cut_extrude2_direction_2_tool1 = extrude(cut_extrude2_direction_2_sk1.sketch, amount=CUT_EXTRUDE2_DIRECTION_2_REACH, mode=Mode.PRIVATE) & part.part
    add(cut_extrude2_direction_2_tool1.solids().sort_by_distance((0, 236.327035, 306.434804))[0], mode=Mode.SUBTRACT)


with BuildPart() as cut_extrude2_piece_1:
    # of the separate pieces the step leaves, piece 1, a body of its own (cut_extrude2_pieces)
    add(part.part.solids().sort_by_distance((68.2625, 233.3625, 0))[0])


with BuildPart() as cut_extrude2_piece_2:
    # of the separate pieces the step leaves, piece 2, a body of its own (cut_extrude2_pieces)
    add(part.part.solids().sort_by_distance((68.2625, 233.3625, 473.623803316))[0])

    # Sketch12 → Cut-Extrude3 (cut)
    with BuildSketch(Plane.ZY.offset(68.2625)):
        with BuildLine():
            Line((512.7625, 221.132963555), (512.7625, 233.3625))
            Line((512.7625, 233.3625), (473.623803288, 233.362500008))
            add(Edge.make_bspline(
                [(473.623803288, 233.362500008), (475.620647135, 232.795545243), (480.944911042, 231.261231316), (489.023245355, 228.841368447), (497.269998464, 226.259749178), (503.762953517, 224.150302439), (508.44642109, 222.600485882), (511.241942115, 221.649402234), (512.474771889, 221.230683977), (512.7625, 221.132963555)],
                knots=[0.000125443, 0.000125443, 0.000125443, 0.000125443, 0.008637848, 0.022847753, 0.034707128, 0.044074296, 0.050844322, 0.054937521, 0.056183654, 0.056183654, 0.056183654, 0.056183654], degree=3))
        make_face()
    extrude(amount=-CUT_EXTRUDE3_DEPTH, mode=Mode.SUBTRACT)


solid = cut_extrude2_piece_1.part
